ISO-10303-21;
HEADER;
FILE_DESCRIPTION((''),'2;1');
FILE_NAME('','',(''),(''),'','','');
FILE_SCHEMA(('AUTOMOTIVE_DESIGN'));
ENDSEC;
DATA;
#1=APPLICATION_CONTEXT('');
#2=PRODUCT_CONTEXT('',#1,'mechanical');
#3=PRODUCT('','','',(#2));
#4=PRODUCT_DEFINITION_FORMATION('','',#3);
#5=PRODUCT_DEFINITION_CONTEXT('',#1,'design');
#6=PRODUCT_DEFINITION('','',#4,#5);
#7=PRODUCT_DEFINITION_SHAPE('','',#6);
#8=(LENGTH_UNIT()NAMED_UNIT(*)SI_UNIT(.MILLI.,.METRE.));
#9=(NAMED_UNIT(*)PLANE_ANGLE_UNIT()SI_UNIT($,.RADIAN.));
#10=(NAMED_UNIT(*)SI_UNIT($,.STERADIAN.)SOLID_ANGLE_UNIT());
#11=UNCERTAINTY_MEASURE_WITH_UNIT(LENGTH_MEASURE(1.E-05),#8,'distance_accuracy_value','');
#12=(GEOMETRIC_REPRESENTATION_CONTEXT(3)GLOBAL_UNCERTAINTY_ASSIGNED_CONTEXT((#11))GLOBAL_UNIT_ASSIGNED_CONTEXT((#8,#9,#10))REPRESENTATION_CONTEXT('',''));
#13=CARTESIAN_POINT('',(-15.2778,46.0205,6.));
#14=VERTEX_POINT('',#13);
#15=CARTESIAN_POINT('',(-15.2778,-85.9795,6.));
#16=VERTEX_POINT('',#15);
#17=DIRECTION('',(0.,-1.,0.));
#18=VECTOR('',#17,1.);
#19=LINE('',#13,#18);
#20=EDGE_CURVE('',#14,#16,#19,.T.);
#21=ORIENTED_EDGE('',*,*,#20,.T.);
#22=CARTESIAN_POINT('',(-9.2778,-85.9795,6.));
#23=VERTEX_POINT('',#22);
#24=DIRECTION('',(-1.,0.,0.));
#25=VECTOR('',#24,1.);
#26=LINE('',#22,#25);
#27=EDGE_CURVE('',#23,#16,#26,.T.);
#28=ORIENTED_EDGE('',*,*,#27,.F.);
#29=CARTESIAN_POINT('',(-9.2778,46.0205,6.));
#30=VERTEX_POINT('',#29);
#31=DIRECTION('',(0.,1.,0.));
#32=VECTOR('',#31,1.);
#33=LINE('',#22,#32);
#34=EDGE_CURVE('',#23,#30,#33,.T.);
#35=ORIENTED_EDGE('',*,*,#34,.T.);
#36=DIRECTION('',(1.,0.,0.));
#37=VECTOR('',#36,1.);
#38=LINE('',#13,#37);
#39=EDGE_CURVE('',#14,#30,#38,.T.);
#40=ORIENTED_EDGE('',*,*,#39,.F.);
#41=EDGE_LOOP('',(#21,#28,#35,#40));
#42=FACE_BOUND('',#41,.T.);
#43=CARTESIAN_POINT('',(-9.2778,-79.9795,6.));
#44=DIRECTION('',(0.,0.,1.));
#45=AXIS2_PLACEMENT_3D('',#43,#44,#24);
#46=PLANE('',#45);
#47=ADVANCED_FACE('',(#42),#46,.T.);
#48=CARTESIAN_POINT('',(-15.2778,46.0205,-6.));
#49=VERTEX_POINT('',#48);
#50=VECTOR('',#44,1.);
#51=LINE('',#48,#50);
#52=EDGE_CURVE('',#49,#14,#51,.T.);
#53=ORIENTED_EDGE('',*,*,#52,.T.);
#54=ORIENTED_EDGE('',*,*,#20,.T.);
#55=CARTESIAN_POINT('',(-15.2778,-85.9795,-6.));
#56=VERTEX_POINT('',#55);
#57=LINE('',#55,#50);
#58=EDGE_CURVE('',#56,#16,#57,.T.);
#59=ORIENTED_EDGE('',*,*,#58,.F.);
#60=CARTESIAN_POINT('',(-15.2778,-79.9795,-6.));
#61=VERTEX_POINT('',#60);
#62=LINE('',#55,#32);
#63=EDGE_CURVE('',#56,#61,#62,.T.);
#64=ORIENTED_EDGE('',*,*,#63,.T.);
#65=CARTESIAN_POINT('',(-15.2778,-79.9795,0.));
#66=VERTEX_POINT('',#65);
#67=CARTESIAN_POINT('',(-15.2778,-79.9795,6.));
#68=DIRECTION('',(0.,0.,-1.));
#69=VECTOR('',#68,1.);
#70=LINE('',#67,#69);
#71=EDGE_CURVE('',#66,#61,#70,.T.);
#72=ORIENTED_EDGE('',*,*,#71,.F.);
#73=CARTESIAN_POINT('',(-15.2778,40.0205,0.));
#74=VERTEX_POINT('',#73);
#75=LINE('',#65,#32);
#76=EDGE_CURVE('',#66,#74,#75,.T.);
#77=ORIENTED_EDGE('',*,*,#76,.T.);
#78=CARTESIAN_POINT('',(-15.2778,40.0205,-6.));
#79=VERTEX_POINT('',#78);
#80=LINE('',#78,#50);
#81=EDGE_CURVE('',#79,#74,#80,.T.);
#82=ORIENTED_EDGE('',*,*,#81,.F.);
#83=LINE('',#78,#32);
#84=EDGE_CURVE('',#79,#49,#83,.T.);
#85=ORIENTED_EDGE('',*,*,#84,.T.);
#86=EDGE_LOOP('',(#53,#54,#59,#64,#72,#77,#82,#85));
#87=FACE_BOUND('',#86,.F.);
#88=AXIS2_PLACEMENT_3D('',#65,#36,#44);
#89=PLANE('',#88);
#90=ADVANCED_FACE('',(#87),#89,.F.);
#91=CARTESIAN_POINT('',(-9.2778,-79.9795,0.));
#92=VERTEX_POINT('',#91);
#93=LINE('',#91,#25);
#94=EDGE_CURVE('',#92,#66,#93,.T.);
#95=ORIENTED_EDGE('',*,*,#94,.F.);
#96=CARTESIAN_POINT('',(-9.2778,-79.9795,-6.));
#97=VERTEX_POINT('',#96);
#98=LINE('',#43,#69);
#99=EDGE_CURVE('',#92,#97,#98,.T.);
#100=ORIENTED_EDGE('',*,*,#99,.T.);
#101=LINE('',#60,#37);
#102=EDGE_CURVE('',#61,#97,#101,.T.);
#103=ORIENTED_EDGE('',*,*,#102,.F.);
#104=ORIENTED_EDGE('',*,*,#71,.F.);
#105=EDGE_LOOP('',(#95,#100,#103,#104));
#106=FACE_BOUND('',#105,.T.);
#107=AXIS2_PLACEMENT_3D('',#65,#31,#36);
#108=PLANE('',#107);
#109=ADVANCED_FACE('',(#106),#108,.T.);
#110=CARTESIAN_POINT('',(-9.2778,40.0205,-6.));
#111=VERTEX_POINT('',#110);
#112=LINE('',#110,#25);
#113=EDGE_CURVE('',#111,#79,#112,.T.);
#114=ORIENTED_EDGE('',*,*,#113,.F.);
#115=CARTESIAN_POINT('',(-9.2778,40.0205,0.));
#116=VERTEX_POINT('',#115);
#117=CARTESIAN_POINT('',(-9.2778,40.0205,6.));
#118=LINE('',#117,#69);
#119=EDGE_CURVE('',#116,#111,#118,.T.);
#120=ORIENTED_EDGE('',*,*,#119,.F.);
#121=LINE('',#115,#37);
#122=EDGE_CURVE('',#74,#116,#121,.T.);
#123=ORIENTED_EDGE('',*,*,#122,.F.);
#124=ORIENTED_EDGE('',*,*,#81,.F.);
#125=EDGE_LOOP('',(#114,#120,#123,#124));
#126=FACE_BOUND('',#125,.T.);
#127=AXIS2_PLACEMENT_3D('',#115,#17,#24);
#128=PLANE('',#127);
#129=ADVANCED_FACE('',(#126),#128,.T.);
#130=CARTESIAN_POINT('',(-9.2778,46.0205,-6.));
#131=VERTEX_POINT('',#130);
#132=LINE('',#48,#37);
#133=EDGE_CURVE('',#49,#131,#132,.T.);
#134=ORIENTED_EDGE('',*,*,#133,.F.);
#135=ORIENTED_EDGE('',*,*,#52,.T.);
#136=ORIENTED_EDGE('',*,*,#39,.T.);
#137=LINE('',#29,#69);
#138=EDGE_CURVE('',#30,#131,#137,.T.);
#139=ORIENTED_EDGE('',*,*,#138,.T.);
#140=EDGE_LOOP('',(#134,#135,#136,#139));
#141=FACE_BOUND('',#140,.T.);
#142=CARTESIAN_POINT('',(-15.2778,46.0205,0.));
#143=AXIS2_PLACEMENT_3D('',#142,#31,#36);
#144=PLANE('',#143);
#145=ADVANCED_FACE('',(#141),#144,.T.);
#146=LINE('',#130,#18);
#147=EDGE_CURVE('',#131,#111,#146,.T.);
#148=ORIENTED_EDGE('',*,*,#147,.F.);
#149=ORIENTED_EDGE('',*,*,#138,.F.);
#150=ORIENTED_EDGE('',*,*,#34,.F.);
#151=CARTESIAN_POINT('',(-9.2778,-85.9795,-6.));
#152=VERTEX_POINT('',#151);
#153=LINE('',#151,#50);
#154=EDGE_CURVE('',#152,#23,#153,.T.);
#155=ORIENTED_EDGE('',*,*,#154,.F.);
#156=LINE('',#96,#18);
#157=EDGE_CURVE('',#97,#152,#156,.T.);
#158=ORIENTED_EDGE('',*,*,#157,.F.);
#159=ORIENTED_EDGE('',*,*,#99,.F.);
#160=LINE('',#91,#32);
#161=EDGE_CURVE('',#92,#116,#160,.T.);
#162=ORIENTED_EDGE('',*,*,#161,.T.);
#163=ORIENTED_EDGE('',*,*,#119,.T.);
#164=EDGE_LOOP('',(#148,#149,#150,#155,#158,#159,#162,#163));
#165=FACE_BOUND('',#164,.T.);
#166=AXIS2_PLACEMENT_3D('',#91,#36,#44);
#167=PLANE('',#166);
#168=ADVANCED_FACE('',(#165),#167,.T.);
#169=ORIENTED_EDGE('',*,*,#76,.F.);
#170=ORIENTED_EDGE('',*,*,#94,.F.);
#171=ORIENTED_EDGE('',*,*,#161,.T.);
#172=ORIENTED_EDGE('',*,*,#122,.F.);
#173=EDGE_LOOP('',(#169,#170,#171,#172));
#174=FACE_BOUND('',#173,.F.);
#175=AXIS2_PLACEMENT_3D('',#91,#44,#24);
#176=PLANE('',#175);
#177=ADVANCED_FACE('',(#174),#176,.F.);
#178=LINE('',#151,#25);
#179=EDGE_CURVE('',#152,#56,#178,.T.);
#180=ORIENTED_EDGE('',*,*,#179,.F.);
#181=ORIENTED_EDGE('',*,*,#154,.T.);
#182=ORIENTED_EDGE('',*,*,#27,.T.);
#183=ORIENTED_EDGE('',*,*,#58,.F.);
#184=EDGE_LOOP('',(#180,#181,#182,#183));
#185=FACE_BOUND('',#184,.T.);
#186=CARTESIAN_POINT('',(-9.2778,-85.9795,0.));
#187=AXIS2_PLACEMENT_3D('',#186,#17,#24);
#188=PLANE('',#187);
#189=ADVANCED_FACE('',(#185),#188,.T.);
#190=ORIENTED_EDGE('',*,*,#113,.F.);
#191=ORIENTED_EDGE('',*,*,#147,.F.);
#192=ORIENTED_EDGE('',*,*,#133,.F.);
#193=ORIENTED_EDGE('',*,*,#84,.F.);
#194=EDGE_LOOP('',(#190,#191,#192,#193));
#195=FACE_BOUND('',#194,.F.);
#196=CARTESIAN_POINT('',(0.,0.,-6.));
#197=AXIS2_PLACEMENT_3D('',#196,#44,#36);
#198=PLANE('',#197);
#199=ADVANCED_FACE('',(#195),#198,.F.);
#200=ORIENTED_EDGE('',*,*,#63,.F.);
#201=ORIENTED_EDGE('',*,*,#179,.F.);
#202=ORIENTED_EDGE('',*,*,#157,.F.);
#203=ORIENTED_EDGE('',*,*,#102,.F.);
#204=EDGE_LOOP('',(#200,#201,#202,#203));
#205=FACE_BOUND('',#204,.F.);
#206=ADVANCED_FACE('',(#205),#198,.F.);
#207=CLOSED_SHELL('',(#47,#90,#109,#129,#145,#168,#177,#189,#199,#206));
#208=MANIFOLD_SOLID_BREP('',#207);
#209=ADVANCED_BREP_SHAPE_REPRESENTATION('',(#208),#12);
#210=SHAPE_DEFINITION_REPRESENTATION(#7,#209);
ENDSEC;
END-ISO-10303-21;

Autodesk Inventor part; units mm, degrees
ref_plane "YZ Plane" through (0, 0, 0) normal (1, 0, 0) x (0, 1, 0)
ref_plane "XZ Plane" through (0, 0, 0) normal (0, 1, 0) x (-1, 0, 0)
ref_plane "XY Plane" through (0, 0, 0) normal (0, 0, 1) x (1, 0, 0)
sketch "Sketch1" plane through (0, 0, 0) normal (0, 0, 1) x (1, 0, 0)
  line L0 (538.5222, 35.1205) -> (532.3222, 35.1205) projected
  line L1 (538.5222, 52.0205) -> (538.5222, 35.1205) projected
  line L2 (538.5222, 52.0205) -> (246.9222, 52.0205) projected
  line L3 (246.9222, 52.0205) -> (246.9222, 58.0205) projected
  line L4 (246.9222, 58.0205) -> (538.5222, 58.0205) projected
  line L5 (538.5222, 74.9205) -> (538.5222, 58.0205) projected
  line L6 (523.1184, 74.9205) -> (538.5222, 74.9205) projected
  line L7 (517.9222, 77.9205) -> (523.1184, 74.9205) projected
  line L8 (517.9222, 74.9205) -> (517.9222, 77.9205) projected
  arc A0 (515.9222, 74.9205) -> (517.9222, 74.9205) centre (516.9222, 74.9205) ccw projected
  line L9 (515.9222, 77.9205) -> (515.9222, 74.9205) projected
  line L10 (510.7261, 74.9205) -> (515.9222, 77.9205) projected
  line L11 (494.3184, 74.9205) -> (510.7261, 74.9205) projected
  line L12 (489.1222, 77.9205) -> (494.3184, 74.9205) projected
  line L13 (489.1222, 74.9205) -> (489.1222, 77.9205) projected
  arc A1 (487.1222, 74.9205) -> (489.1222, 74.9205) centre (488.1222, 74.9205) ccw projected
  line L14 (487.1222, 77.9205) -> (487.1222, 74.9205) projected
  line L15 (481.9261, 74.9205) -> (487.1222, 77.9205) projected
  line L16 (465.5184, 74.9205) -> (481.9261, 74.9205) projected
  line L17 (460.3222, 77.9205) -> (465.5184, 74.9205) projected
  line L18 (460.3222, 74.9205) -> (460.3222, 77.9205) projected
  arc A2 (458.3222, 74.9205) -> (460.3222, 74.9205) centre (459.3222, 74.9205) ccw projected
  line L19 (458.3222, 77.9205) -> (458.3222, 74.9205) projected
  line L20 (453.1261, 74.9205) -> (458.3222, 77.9205) projected
  line L21 (436.7184, 74.9205) -> (453.1261, 74.9205) projected
  line L22 (431.5222, 77.9205) -> (436.7184, 74.9205) projected
  line L23 (431.5222, 74.9205) -> (431.5222, 77.9205) projected
  arc A3 (429.5222, 74.9205) -> (431.5222, 74.9205) centre (430.5222, 74.9205) ccw projected
  line L24 (429.5222, 77.9205) -> (429.5222, 74.9205) projected
  line L25 (424.3261, 74.9205) -> (429.5222, 77.9205) projected
  line L26 (407.9184, 74.9205) -> (424.3261, 74.9205) projected
  line L27 (402.7222, 77.9205) -> (407.9184, 74.9205) projected
  line L28 (402.7222, 74.9205) -> (402.7222, 77.9205) projected
  arc A4 (400.7222, 74.9205) -> (402.7222, 74.9205) centre (401.7222, 74.9205) ccw projected
  line L29 (400.7222, 77.9205) -> (400.7222, 74.9205) projected
  line L30 (395.5261, 74.9205) -> (400.7222, 77.9205) projected
  line L31 (379.1184, 74.9205) -> (395.5261, 74.9205) projected
  line L32 (373.9222, 77.9205) -> (379.1184, 74.9205) projected
  line L33 (373.9222, 74.9205) -> (373.9222, 77.9205) projected
  arc A5 (371.9222, 74.9205) -> (373.9222, 74.9205) centre (372.9222, 74.9205) ccw projected
  line L34 (371.9222, 77.9205) -> (371.9222, 74.9205) projected
  line L35 (366.7261, 74.9205) -> (371.9222, 77.9205) projected
  line L36 (350.3184, 74.9205) -> (366.7261, 74.9205) projected
  line L37 (345.1222, 77.9205) -> (350.3184, 74.9205) projected
  line L38 (345.1222, 74.9205) -> (345.1222, 77.9205) projected
  arc A6 (343.1222, 74.9205) -> (345.1222, 74.9205) centre (344.1222, 74.9205) ccw projected
  line L39 (343.1222, 77.9205) -> (343.1222, 74.9205) projected
  line L40 (337.9261, 74.9205) -> (343.1222, 77.9205) projected
  line L41 (321.5184, 74.9205) -> (337.9261, 74.9205) projected
  line L42 (316.3222, 77.9205) -> (321.5184, 74.9205) projected
  line L43 (316.3222, 74.9205) -> (316.3222, 77.9205) projected
  arc A7 (314.3222, 74.9205) -> (316.3222, 74.9205) centre (315.3222, 74.9205) ccw projected
  line L44 (314.3222, 77.9205) -> (314.3222, 74.9205) projected
  line L45 (309.1261, 74.9205) -> (314.3222, 77.9205) projected
  line L46 (292.7184, 74.9205) -> (309.1261, 74.9205) projected
  line L47 (287.5222, 77.9205) -> (292.7184, 74.9205) projected
  line L48 (287.5222, 74.9205) -> (287.5222, 77.9205) projected
  arc A8 (285.5222, 74.9205) -> (287.5222, 74.9205) centre (286.5222, 74.9205) ccw projected
  line L49 (285.5222, 77.9205) -> (285.5222, 74.9205) projected
  line L50 (280.3261, 74.9205) -> (285.5222, 77.9205) projected
  line L51 (263.9184, 74.9205) -> (280.3261, 74.9205) projected
  line L52 (258.7222, 77.9205) -> (263.9184, 74.9205) projected
  line L53 (258.7222, 74.9205) -> (258.7222, 77.9205) projected
  arc A9 (256.7222, 74.9205) -> (258.7222, 74.9205) centre (257.7222, 74.9205) ccw projected
  line L54 (256.7222, 77.9205) -> (256.7222, 74.9205) projected
  line L55 (251.5261, 74.9205) -> (256.7222, 77.9205) projected
  line L56 (235.1184, 74.9205) -> (251.5261, 74.9205) projected
  line L57 (229.9222, 77.9205) -> (235.1184, 74.9205) projected
  line L58 (229.9222, 74.9205) -> (229.9222, 77.9205) projected
  arc A10 (227.9222, 74.9205) -> (229.9222, 74.9205) centre (228.9222, 74.9205) ccw projected
  line L59 (227.9222, 77.9205) -> (227.9222, 74.9205) projected
  line L60 (222.7261, 74.9205) -> (227.9222, 77.9205) projected
  line L61 (206.3184, 74.9205) -> (222.7261, 74.9205) projected
  line L62 (201.1222, 77.9205) -> (206.3184, 74.9205) projected
  line L63 (201.1222, 74.9205) -> (201.1222, 77.9205) projected
  arc A11 (199.1222, 74.9205) -> (201.1222, 74.9205) centre (200.1222, 74.9205) ccw projected
  line L64 (199.1222, 77.9205) -> (199.1222, 74.9205) projected
  line L65 (193.9261, 74.9205) -> (199.1222, 77.9205) projected
  line L66 (177.5184, 74.9205) -> (193.9261, 74.9205) projected
  line L67 (172.3222, 77.9205) -> (177.5184, 74.9205) projected
  line L68 (172.3222, 74.9205) -> (172.3222, 77.9205) projected
  arc A12 (170.3222, 74.9205) -> (172.3222, 74.9205) centre (171.3222, 74.9205) ccw projected
  line L69 (170.3222, 77.9205) -> (170.3222, 74.9205) projected
  line L70 (165.1261, 74.9205) -> (170.3222, 77.9205) projected
  line L71 (148.7184, 74.9205) -> (165.1261, 74.9205) projected
  line L72 (143.5222, 77.9205) -> (148.7184, 74.9205) projected
  line L73 (143.5222, 74.9205) -> (143.5222, 77.9205) projected
  arc A13 (141.5222, 74.9205) -> (143.5222, 74.9205) centre (142.5222, 74.9205) ccw projected
  line L74 (141.5222, 77.9205) -> (141.5222, 74.9205) projected
  line L75 (136.3261, 74.9205) -> (141.5222, 77.9205) projected
  line L76 (119.9184, 74.9205) -> (136.3261, 74.9205) projected
  line L77 (114.7222, 77.9205) -> (119.9184, 74.9205) projected
  line L78 (114.7222, 74.9205) -> (114.7222, 77.9205) projected
  arc A14 (112.7222, 74.9205) -> (114.7222, 74.9205) centre (113.7222, 74.9205) ccw projected
  line L79 (112.7222, 77.9205) -> (112.7222, 74.9205) projected
  line L80 (107.5261, 74.9205) -> (112.7222, 77.9205) projected
  line L81 (91.1184, 74.9205) -> (107.5261, 74.9205) projected
  line L82 (85.9222, 77.9205) -> (91.1184, 74.9205) projected
  line L83 (85.9222, 74.9205) -> (85.9222, 77.9205) projected
  arc A15 (83.9222, 74.9205) -> (85.9222, 74.9205) centre (84.9222, 74.9205) ccw projected
  line L84 (83.9222, 77.9205) -> (83.9222, 74.9205) projected
  line L85 (78.7261, 74.9205) -> (83.9222, 77.9205) projected
  line L86 (62.3184, 74.9205) -> (78.7261, 74.9205) projected
  line L87 (57.1222, 77.9205) -> (62.3184, 74.9205) projected
  line L88 (57.1222, 74.9205) -> (57.1222, 77.9205) projected
  arc A16 (55.1222, 74.9205) -> (57.1222, 74.9205) centre (56.1222, 74.9205) ccw projected
  line L89 (55.1222, 77.9205) -> (55.1222, 74.9205) projected
  line L90 (49.9261, 74.9205) -> (55.1222, 77.9205) projected
  line L91 (33.5184, 74.9205) -> (49.9261, 74.9205) projected
  line L92 (28.3222, 77.9205) -> (33.5184, 74.9205) projected
  line L93 (28.3222, 74.9205) -> (28.3222, 77.9205) projected
  arc A17 (26.3222, 74.9205) -> (28.3222, 74.9205) centre (27.3222, 74.9205) ccw projected
  line L94 (26.3222, 77.9205) -> (26.3222, 74.9205) projected
  line L95 (21.1261, 74.9205) -> (26.3222, 77.9205) projected
  line L96 (4.7184, 74.9205) -> (21.1261, 74.9205) projected
  line L97 (-0.4778, 77.9205) -> (4.7184, 74.9205) projected
  line L98 (-0.4778, 74.9205) -> (-0.4778, 77.9205) projected
  arc A18 (-2.4778, 74.9205) -> (-0.4778, 74.9205) centre (-1.4778, 74.9205) ccw projected
  line L99 (-2.4778, 77.9205) -> (-2.4778, 74.9205) projected
  line L100 (-7.6739, 74.9205) -> (-2.4778, 77.9205) projected
  line L101 (-24.0816, 74.9205) -> (-7.6739, 74.9205) projected
  line L102 (-29.2778, 77.9205) -> (-24.0816, 74.9205) projected
  line L103 (-29.2778, 74.9205) -> (-29.2778, 77.9205) projected
  arc A19 (-31.2778, 74.9205) -> (-29.2778, 74.9205) centre (-30.2778, 74.9205) ccw projected
  line L104 (-31.2778, 77.9205) -> (-31.2778, 74.9205) projected
  line L105 (-36.4739, 74.9205) -> (-31.2778, 77.9205) projected
  line L106 (-36.4739, 74.9205) -> (-44.6778, 74.9205) projected
  line L107 (-44.6778, 35.1205) -> (-44.6778, 74.9205) projected
  line L108 (-22.0739, 35.1205) -> (-44.6778, 35.1205) projected
  line L109 (-16.8778, 32.1205) -> (-22.0739, 35.1205) projected
  line L110 (-16.8778, 35.1205) -> (-16.8778, 32.1205) projected
  arc A20 (-14.8778, 35.1205) -> (-16.8778, 35.1205) centre (-15.8778, 35.1205) ccw projected
  line L111 (-14.8778, 32.1205) -> (-14.8778, 35.1205) projected
  line L112 (-9.6816, 35.1205) -> (-14.8778, 32.1205) projected
  line L113 (6.7261, 35.1205) -> (-9.6816, 35.1205) projected
  line L114 (11.9222, 32.1205) -> (6.7261, 35.1205) projected
  line L115 (11.9222, 35.1205) -> (11.9222, 32.1205) projected
  arc A21 (13.9222, 35.1205) -> (11.9222, 35.1205) centre (12.9222, 35.1205) ccw projected
  line L116 (13.9222, 32.1205) -> (13.9222, 35.1205) projected
  line L117 (19.1184, 35.1205) -> (13.9222, 32.1205) projected
  line L118 (35.5261, 35.1205) -> (19.1184, 35.1205) projected
  line L119 (40.7222, 32.1205) -> (35.5261, 35.1205) projected
  line L120 (40.7222, 35.1205) -> (40.7222, 32.1205) projected
  arc A22 (42.7222, 35.1205) -> (40.7222, 35.1205) centre (41.7222, 35.1205) ccw projected
  line L121 (42.7222, 32.1205) -> (42.7222, 35.1205) projected
  line L122 (47.9184, 35.1205) -> (42.7222, 32.1205) projected
  line L123 (64.3261, 35.1205) -> (47.9184, 35.1205) projected
  line L124 (69.5222, 32.1205) -> (64.3261, 35.1205) projected
  line L125 (69.5222, 35.1205) -> (69.5222, 32.1205) projected
  arc A23 (71.5222, 35.1205) -> (69.5222, 35.1205) centre (70.5222, 35.1205) ccw projected
  line L126 (71.5222, 32.1205) -> (71.5222, 35.1205) projected
  line L127 (76.7184, 35.1205) -> (71.5222, 32.1205) projected
  line L128 (93.1261, 35.1205) -> (76.7184, 35.1205) projected
  line L129 (98.3222, 32.1205) -> (93.1261, 35.1205) projected
  line L130 (98.3222, 35.1205) -> (98.3222, 32.1205) projected
  arc A24 (100.3222, 35.1205) -> (98.3222, 35.1205) centre (99.3222, 35.1205) ccw projected
  line L131 (100.3222, 32.1205) -> (100.3222, 35.1205) projected
  line L132 (105.5184, 35.1205) -> (100.3222, 32.1205) projected
  line L133 (121.9261, 35.1205) -> (105.5184, 35.1205) projected
  line L134 (127.1222, 32.1205) -> (121.9261, 35.1205) projected
  line L135 (127.1222, 35.1205) -> (127.1222, 32.1205) projected
  arc A25 (129.1222, 35.1205) -> (127.1222, 35.1205) centre (128.1222, 35.1205) ccw projected
  line L136 (129.1222, 32.1205) -> (129.1222, 35.1205) projected
  line L137 (134.3184, 35.1205) -> (129.1222, 32.1205) projected
  line L138 (150.7261, 35.1205) -> (134.3184, 35.1205) projected
  line L139 (155.9222, 32.1205) -> (150.7261, 35.1205) projected
  line L140 (155.9222, 35.1205) -> (155.9222, 32.1205) projected
  arc A26 (157.9222, 35.1205) -> (155.9222, 35.1205) centre (156.9222, 35.1205) ccw projected
  line L141 (157.9222, 32.1205) -> (157.9222, 35.1205) projected
  line L142 (163.1184, 35.1205) -> (157.9222, 32.1205) projected
  line L143 (179.5261, 35.1205) -> (163.1184, 35.1205) projected
  line L144 (184.7222, 32.1205) -> (179.5261, 35.1205) projected
  line L145 (184.7222, 35.1205) -> (184.7222, 32.1205) projected
  arc A27 (186.7222, 35.1205) -> (184.7222, 35.1205) centre (185.7222, 35.1205) ccw projected
  line L146 (186.7222, 32.1205) -> (186.7222, 35.1205) projected
  line L147 (191.9184, 35.1205) -> (186.7222, 32.1205) projected
  line L148 (208.3261, 35.1205) -> (191.9184, 35.1205) projected
  line L149 (213.5222, 32.1205) -> (208.3261, 35.1205) projected
  line L150 (213.5222, 35.1205) -> (213.5222, 32.1205) projected
  arc A28 (215.5222, 35.1205) -> (213.5222, 35.1205) centre (214.5222, 35.1205) ccw projected
  line L151 (215.5222, 32.1205) -> (215.5222, 35.1205) projected
  line L152 (220.7184, 35.1205) -> (215.5222, 32.1205) projected
  line L153 (237.1261, 35.1205) -> (220.7184, 35.1205) projected
  line L154 (242.3222, 32.1205) -> (237.1261, 35.1205) projected
  line L155 (242.3222, 35.1205) -> (242.3222, 32.1205) projected
  arc A29 (244.3222, 35.1205) -> (242.3222, 35.1205) centre (243.3222, 35.1205) ccw projected
  line L156 (244.3222, 32.1205) -> (244.3222, 35.1205) projected
  line L157 (249.5184, 35.1205) -> (244.3222, 32.1205) projected
  line L158 (265.9261, 35.1205) -> (249.5184, 35.1205) projected
  line L159 (271.1222, 32.1205) -> (265.9261, 35.1205) projected
  line L160 (271.1222, 35.1205) -> (271.1222, 32.1205) projected
  arc A30 (273.1222, 35.1205) -> (271.1222, 35.1205) centre (272.1222, 35.1205) ccw projected
  line L161 (273.1222, 32.1205) -> (273.1222, 35.1205) projected
  line L162 (278.3184, 35.1205) -> (273.1222, 32.1205) projected
  line L163 (294.7261, 35.1205) -> (278.3184, 35.1205) projected
  line L164 (299.9222, 32.1205) -> (294.7261, 35.1205) projected
  line L165 (299.9222, 35.1205) -> (299.9222, 32.1205) projected
  arc A31 (301.9222, 35.1205) -> (299.9222, 35.1205) centre (300.9222, 35.1205) ccw projected
  line L166 (301.9222, 32.1205) -> (301.9222, 35.1205) projected
  line L167 (307.1184, 35.1205) -> (301.9222, 32.1205) projected
  line L168 (323.5261, 35.1205) -> (307.1184, 35.1205) projected
  line L169 (328.7222, 32.1205) -> (323.5261, 35.1205) projected
  line L170 (328.7222, 35.1205) -> (328.7222, 32.1205) projected
  arc A32 (330.7222, 35.1205) -> (328.7222, 35.1205) centre (329.7222, 35.1205) ccw projected
  line L171 (330.7222, 32.1205) -> (330.7222, 35.1205) projected
  line L172 (335.9184, 35.1205) -> (330.7222, 32.1205) projected
  line L173 (352.3261, 35.1205) -> (335.9184, 35.1205) projected
  line L174 (357.5222, 32.1205) -> (352.3261, 35.1205) projected
  line L175 (357.5222, 35.1205) -> (357.5222, 32.1205) projected
  arc A33 (359.5222, 35.1205) -> (357.5222, 35.1205) centre (358.5222, 35.1205) ccw projected
  line L176 (359.5222, 32.1205) -> (359.5222, 35.1205) projected
  line L177 (364.7184, 35.1205) -> (359.5222, 32.1205) projected
  line L178 (381.1261, 35.1205) -> (364.7184, 35.1205) projected
  line L179 (386.3222, 32.1205) -> (381.1261, 35.1205) projected
  line L180 (386.3222, 35.1205) -> (386.3222, 32.1205) projected
  arc A34 (388.3222, 35.1205) -> (386.3222, 35.1205) centre (387.3222, 35.1205) ccw projected
  line L181 (388.3222, 32.1205) -> (388.3222, 35.1205) projected
  line L182 (393.5184, 35.1205) -> (388.3222, 32.1205) projected
  line L183 (409.9261, 35.1205) -> (393.5184, 35.1205) projected
  line L184 (415.1222, 32.1205) -> (409.9261, 35.1205) projected
  line L185 (415.1222, 35.1205) -> (415.1222, 32.1205) projected
  arc A35 (417.1222, 35.1205) -> (415.1222, 35.1205) centre (416.1222, 35.1205) ccw projected
  line L186 (417.1222, 32.1205) -> (417.1222, 35.1205) projected
  line L187 (422.3184, 35.1205) -> (417.1222, 32.1205) projected
  line L188 (438.7261, 35.1205) -> (422.3184, 35.1205) projected
  line L189 (443.9222, 32.1205) -> (438.7261, 35.1205) projected
  line L190 (443.9222, 35.1205) -> (443.9222, 32.1205) projected
  arc A36 (445.9222, 35.1205) -> (443.9222, 35.1205) centre (444.9222, 35.1205) ccw projected
  line L191 (445.9222, 32.1205) -> (445.9222, 35.1205) projected
  line L192 (451.1184, 35.1205) -> (445.9222, 32.1205) projected
  line L193 (467.5261, 35.1205) -> (451.1184, 35.1205) projected
  line L194 (472.7222, 32.1205) -> (467.5261, 35.1205) projected
  line L195 (472.7222, 35.1205) -> (472.7222, 32.1205) projected
  arc A37 (474.7222, 35.1205) -> (472.7222, 35.1205) centre (473.7222, 35.1205) ccw projected
  line L196 (474.7222, 32.1205) -> (474.7222, 35.1205) projected
  line L197 (479.9184, 35.1205) -> (474.7222, 32.1205) projected
  line L198 (496.3261, 35.1205) -> (479.9184, 35.1205) projected
  line L199 (501.5222, 32.1205) -> (496.3261, 35.1205) projected
  line L200 (501.5222, 35.1205) -> (501.5222, 32.1205) projected
  arc A38 (503.5222, 35.1205) -> (501.5222, 35.1205) centre (502.5222, 35.1205) ccw projected
  line L201 (503.5222, 32.1205) -> (503.5222, 35.1205) projected
  line L202 (508.7184, 35.1205) -> (503.5222, 32.1205) projected
  line L203 (525.1261, 35.1205) -> (508.7184, 35.1205) projected
  line L204 (530.3222, 32.1205) -> (525.1261, 35.1205) projected
  line L205 (530.3222, 35.1205) -> (530.3222, 32.1205) projected
  arc A39 (532.3222, 35.1205) -> (530.3222, 35.1205) centre (531.3222, 35.1205) ccw projected
  line L206 (-15.2778, 46.0205) -> (-9.2778, 46.0205) projected
  line L207 (-9.2778, 46.0205) -> (-9.2778, 40.0205) projected
  line L208 (-9.2778, 40.0205) -> (-15.2778, 40.0205) projected
  line L209 (-15.2778, 40.0205) -> (-15.2778, 46.0205) projected
  line L210 (-15.2778, 64.0205) -> (-15.2778, 70.0205) projected
  line L211 (-15.2778, 70.0205) -> (-9.2778, 70.0205) projected
  line L212 (-9.2778, 70.0205) -> (-9.2778, 64.0205) projected
  line L213 (-9.2778, 64.0205) -> (-15.2778, 64.0205) projected
  line L214 (42.3222, 46.0205) -> (48.3222, 46.0205) projected
  line L215 (48.3222, 46.0205) -> (48.3222, 40.0205) projected
  line L216 (48.3222, 40.0205) -> (42.3222, 40.0205) projected
  line L217 (42.3222, 40.0205) -> (42.3222, 46.0205) projected
  line L218 (42.3222, 64.0205) -> (42.3222, 70.0205) projected
  line L219 (42.3222, 70.0205) -> (48.3222, 70.0205) projected
  line L220 (48.3222, 70.0205) -> (48.3222, 64.0205) projected
  line L221 (48.3222, 64.0205) -> (42.3222, 64.0205) projected
  line L222 (99.9222, 46.0205) -> (105.9222, 46.0205) projected
  line L223 (105.9222, 46.0205) -> (105.9222, 40.0205) projected
  line L224 (105.9222, 40.0205) -> (99.9222, 40.0205) projected
  line L225 (99.9222, 40.0205) -> (99.9222, 46.0205) projected
  line L226 (99.9222, 64.0205) -> (99.9222, 70.0205) projected
  line L227 (99.9222, 70.0205) -> (105.9222, 70.0205) projected
  line L228 (105.9222, 70.0205) -> (105.9222, 64.0205) projected
  line L229 (105.9222, 64.0205) -> (99.9222, 64.0205) projected
  line L230 (157.5222, 46.0205) -> (163.5222, 46.0205) projected
  line L231 (163.5222, 46.0205) -> (163.5222, 40.0205) projected
  line L232 (163.5222, 40.0205) -> (157.5222, 40.0205) projected
  line L233 (157.5222, 40.0205) -> (157.5222, 46.0205) projected
  line L234 (157.5222, 64.0205) -> (157.5222, 70.0205) projected
  line L235 (157.5222, 70.0205) -> (163.5222, 70.0205) projected
  line L236 (163.5222, 70.0205) -> (163.5222, 64.0205) projected
  line L237 (163.5222, 64.0205) -> (157.5222, 64.0205) projected
  line L238 (215.1222, 46.0205) -> (221.1222, 46.0205) projected
  line L239 (221.1222, 46.0205) -> (221.1222, 40.0205) projected
  line L240 (221.1222, 40.0205) -> (215.1222, 40.0205) projected
  line L241 (215.1222, 40.0205) -> (215.1222, 46.0205) projected
  line L242 (215.1222, 64.0205) -> (215.1222, 70.0205) projected
  line L243 (215.1222, 70.0205) -> (221.1222, 70.0205) projected
  line L244 (221.1222, 70.0205) -> (221.1222, 64.0205) projected
  line L245 (221.1222, 64.0205) -> (215.1222, 64.0205) projected
  line L246 (272.7222, 46.0205) -> (278.7222, 46.0205) projected
  line L247 (278.7222, 46.0205) -> (278.7222, 40.0205) projected
  line L248 (278.7222, 40.0205) -> (272.7222, 40.0205) projected
  line L249 (272.7222, 40.0205) -> (272.7222, 46.0205) projected
  line L250 (272.7222, 64.0205) -> (272.7222, 70.0205) projected
  line L251 (272.7222, 70.0205) -> (278.7222, 70.0205) projected
  line L252 (278.7222, 70.0205) -> (278.7222, 64.0205) projected
  line L253 (278.7222, 64.0205) -> (272.7222, 64.0205) projected
  line L254 (330.3222, 46.0205) -> (336.3222, 46.0205) projected
  line L255 (336.3222, 46.0205) -> (336.3222, 40.0205) projected
  line L256 (336.3222, 40.0205) -> (330.3222, 40.0205) projected
  line L257 (330.3222, 40.0205) -> (330.3222, 46.0205) projected
  line L258 (330.3222, 64.0205) -> (330.3222, 70.0205) projected
  line L259 (330.3222, 70.0205) -> (336.3222, 70.0205) projected
  line L260 (336.3222, 70.0205) -> (336.3222, 64.0205) projected
  line L261 (336.3222, 64.0205) -> (330.3222, 64.0205) projected
  line L262 (387.9222, 46.0205) -> (393.9222, 46.0205) projected
  line L263 (393.9222, 46.0205) -> (393.9222, 40.0205) projected
  line L264 (393.9222, 40.0205) -> (387.9222, 40.0205) projected
  line L265 (387.9222, 40.0205) -> (387.9222, 46.0205) projected
  line L266 (387.9222, 64.0205) -> (387.9222, 70.0205) projected
  line L267 (387.9222, 70.0205) -> (393.9222, 70.0205) projected
  line L268 (393.9222, 70.0205) -> (393.9222, 64.0205) projected
  line L269 (393.9222, 64.0205) -> (387.9222, 64.0205) projected
  line L270 (445.5222, 46.0205) -> (451.5222, 46.0205) projected
  line L271 (451.5222, 46.0205) -> (451.5222, 40.0205) projected
  line L272 (451.5222, 40.0205) -> (445.5222, 40.0205) projected
  line L273 (445.5222, 40.0205) -> (445.5222, 46.0205) projected
  line L274 (445.5222, 64.0205) -> (445.5222, 70.0205) projected
  line L275 (445.5222, 70.0205) -> (451.5222, 70.0205) projected
  line L276 (451.5222, 70.0205) -> (451.5222, 64.0205) projected
  line L277 (451.5222, 64.0205) -> (445.5222, 64.0205) projected
  line L278 (503.1222, 46.0205) -> (509.1222, 46.0205) projected
  line L279 (509.1222, 46.0205) -> (509.1222, 40.0205) projected
  line L280 (509.1222, 40.0205) -> (503.1222, 40.0205) projected
  line L281 (503.1222, 40.0205) -> (503.1222, 46.0205) projected
  line L282 (503.1222, 64.0205) -> (503.1222, 70.0205) projected
  line L283 (503.1222, 70.0205) -> (509.1222, 70.0205) projected
  line L284 (509.1222, 70.0205) -> (509.1222, 64.0205) projected
  line L285 (509.1222, 64.0205) -> (503.1222, 64.0205) projected
  line L286 (538.5222, -114.8795) -> (532.3222, -114.8795) projected
  line L287 (538.5222, -97.9795) -> (538.5222, -114.8795) projected
  line L288 (538.5222, -97.9795) -> (246.9222, -97.9795) projected
  line L289 (246.9222, -97.9795) -> (246.9222, -91.9795) projected
  line L290 (246.9222, -91.9795) -> (538.5222, -91.9795) projected
  line L291 (538.5222, -75.0795) -> (538.5222, -91.9795) projected
  line L292 (523.1184, -75.0795) -> (538.5222, -75.0795) projected
  line L293 (517.9222, -72.0795) -> (523.1184, -75.0795) projected
  line L294 (517.9222, -75.0795) -> (517.9222, -72.0795) projected
  arc A40 (515.9222, -75.0795) -> (517.9222, -75.0795) centre (516.9222, -75.0795) ccw projected
  line L295 (515.9222, -72.0795) -> (515.9222, -75.0795) projected
  line L296 (510.7261, -75.0795) -> (515.9222, -72.0795) projected
  line L297 (494.3184, -75.0795) -> (510.7261, -75.0795) projected
  line L298 (489.1222, -72.0795) -> (494.3184, -75.0795) projected
  line L299 (489.1222, -75.0795) -> (489.1222, -72.0795) projected
  arc A41 (487.1222, -75.0795) -> (489.1222, -75.0795) centre (488.1222, -75.0795) ccw projected
  line L300 (487.1222, -72.0795) -> (487.1222, -75.0795) projected
  line L301 (481.9261, -75.0795) -> (487.1222, -72.0795) projected
  line L302 (465.5184, -75.0795) -> (481.9261, -75.0795) projected
  line L303 (460.3222, -72.0795) -> (465.5184, -75.0795) projected
  line L304 (460.3222, -75.0795) -> (460.3222, -72.0795) projected
  arc A42 (458.3222, -75.0795) -> (460.3222, -75.0795) centre (459.3222, -75.0795) ccw projected
  line L305 (458.3222, -72.0795) -> (458.3222, -75.0795) projected
  line L306 (453.1261, -75.0795) -> (458.3222, -72.0795) projected
  line L307 (436.7184, -75.0795) -> (453.1261, -75.0795) projected
  line L308 (431.5222, -72.0795) -> (436.7184, -75.0795) projected
  line L309 (431.5222, -75.0795) -> (431.5222, -72.0795) projected
  arc A43 (429.5222, -75.0795) -> (431.5222, -75.0795) centre (430.5222, -75.0795) ccw projected
  line L310 (429.5222, -72.0795) -> (429.5222, -75.0795) projected
  line L311 (424.3261, -75.0795) -> (429.5222, -72.0795) projected
  line L312 (407.9184, -75.0795) -> (424.3261, -75.0795) projected
  line L313 (402.7222, -72.0795) -> (407.9184, -75.0795) projected
  line L314 (402.7222, -75.0795) -> (402.7222, -72.0795) projected
  arc A44 (400.7222, -75.0795) -> (402.7222, -75.0795) centre (401.7222, -75.0795) ccw projected
  line L315 (400.7222, -72.0795) -> (400.7222, -75.0795) projected
  line L316 (395.5261, -75.0795) -> (400.7222, -72.0795) projected
  line L317 (379.1184, -75.0795) -> (395.5261, -75.0795) projected
  line L318 (373.9222, -72.0795) -> (379.1184, -75.0795) projected
  line L319 (373.9222, -75.0795) -> (373.9222, -72.0795) projected
  arc A45 (371.9222, -75.0795) -> (373.9222, -75.0795) centre (372.9222, -75.0795) ccw projected
  line L320 (371.9222, -72.0795) -> (371.9222, -75.0795) projected
  line L321 (366.7261, -75.0795) -> (371.9222, -72.0795) projected
  line L322 (350.3184, -75.0795) -> (366.7261, -75.0795) projected
  line L323 (345.1222, -72.0795) -> (350.3184, -75.0795) projected
  line L324 (345.1222, -75.0795) -> (345.1222, -72.0795) projected
  arc A46 (343.1222, -75.0795) -> (345.1222, -75.0795) centre (344.1222, -75.0795) ccw projected
  line L325 (343.1222, -72.0795) -> (343.1222, -75.0795) projected
  line L326 (337.9261, -75.0795) -> (343.1222, -72.0795) projected
  line L327 (321.5184, -75.0795) -> (337.9261, -75.0795) projected
  line L328 (316.3222, -72.0795) -> (321.5184, -75.0795) projected
  line L329 (316.3222, -75.0795) -> (316.3222, -72.0795) projected
  arc A47 (314.3222, -75.0795) -> (316.3222, -75.0795) centre (315.3222, -75.0795) ccw projected
  line L330 (314.3222, -72.0795) -> (314.3222, -75.0795) projected
  line L331 (309.1261, -75.0795) -> (314.3222, -72.0795) projected
  line L332 (292.7184, -75.0795) -> (309.1261, -75.0795) projected
  line L333 (287.5222, -72.0795) -> (292.7184, -75.0795) projected
  line L334 (287.5222, -75.0795) -> (287.5222, -72.0795) projected
  arc A48 (285.5222, -75.0795) -> (287.5222, -75.0795) centre (286.5222, -75.0795) ccw projected
  line L335 (285.5222, -72.0795) -> (285.5222, -75.0795) projected
  line L336 (280.3261, -75.0795) -> (285.5222, -72.0795) projected
  line L337 (263.9184, -75.0795) -> (280.3261, -75.0795) projected
  line L338 (258.7222, -72.0795) -> (263.9184, -75.0795) projected
  line L339 (258.7222, -75.0795) -> (258.7222, -72.0795) projected
  arc A49 (256.7222, -75.0795) -> (258.7222, -75.0795) centre (257.7222, -75.0795) ccw projected
  line L340 (256.7222, -72.0795) -> (256.7222, -75.0795) projected
  line L341 (251.5261, -75.0795) -> (256.7222, -72.0795) projected
  line L342 (235.1184, -75.0795) -> (251.5261, -75.0795) projected
  line L343 (229.9222, -72.0795) -> (235.1184, -75.0795) projected
  line L344 (229.9222, -75.0795) -> (229.9222, -72.0795) projected
  arc A50 (227.9222, -75.0795) -> (229.9222, -75.0795) centre (228.9222, -75.0795) ccw projected
  line L345 (227.9222, -72.0795) -> (227.9222, -75.0795) projected
  line L346 (222.7261, -75.0795) -> (227.9222, -72.0795) projected
  line L347 (206.3184, -75.0795) -> (222.7261, -75.0795) projected
  line L348 (201.1222, -72.0795) -> (206.3184, -75.0795) projected
  line L349 (201.1222, -75.0795) -> (201.1222, -72.0795) projected
  arc A51 (199.1222, -75.0795) -> (201.1222, -75.0795) centre (200.1222, -75.0795) ccw projected
  line L350 (199.1222, -72.0795) -> (199.1222, -75.0795) projected
  line L351 (193.9261, -75.0795) -> (199.1222, -72.0795) projected
  line L352 (177.5184, -75.0795) -> (193.9261, -75.0795) projected
  line L353 (172.3222, -72.0795) -> (177.5184, -75.0795) projected
  line L354 (172.3222, -75.0795) -> (172.3222, -72.0795) projected
  arc A52 (170.3222, -75.0795) -> (172.3222, -75.0795) centre (171.3222, -75.0795) ccw projected
  line L355 (170.3222, -72.0795) -> (170.3222, -75.0795) projected
  line L356 (165.1261, -75.0795) -> (170.3222, -72.0795) projected
  line L357 (148.7184, -75.0795) -> (165.1261, -75.0795) projected
  line L358 (143.5222, -72.0795) -> (148.7184, -75.0795) projected
  line L359 (143.5222, -75.0795) -> (143.5222, -72.0795) projected
  arc A53 (141.5222, -75.0795) -> (143.5222, -75.0795) centre (142.5222, -75.0795) ccw projected
  line L360 (141.5222, -72.0795) -> (141.5222, -75.0795) projected
  line L361 (136.3261, -75.0795) -> (141.5222, -72.0795) projected
  line L362 (119.9184, -75.0795) -> (136.3261, -75.0795) projected
  line L363 (114.7222, -72.0795) -> (119.9184, -75.0795) projected
  line L364 (114.7222, -75.0795) -> (114.7222, -72.0795) projected
  arc A54 (112.7222, -75.0795) -> (114.7222, -75.0795) centre (113.7222, -75.0795) ccw projected
  line L365 (112.7222, -72.0795) -> (112.7222, -75.0795) projected
  line L366 (107.5261, -75.0795) -> (112.7222, -72.0795) projected
  line L367 (91.1184, -75.0795) -> (107.5261, -75.0795) projected
  line L368 (85.9222, -72.0795) -> (91.1184, -75.0795) projected
  line L369 (85.9222, -75.0795) -> (85.9222, -72.0795) projected
  arc A55 (83.9222, -75.0795) -> (85.9222, -75.0795) centre (84.9222, -75.0795) ccw projected
  line L370 (83.9222, -72.0795) -> (83.9222, -75.0795) projected
  line L371 (78.7261, -75.0795) -> (83.9222, -72.0795) projected
  line L372 (62.3184, -75.0795) -> (78.7261, -75.0795) projected
  line L373 (57.1222, -72.0795) -> (62.3184, -75.0795) projected
  line L374 (57.1222, -75.0795) -> (57.1222, -72.0795) projected
  arc A56 (55.1222, -75.0795) -> (57.1222, -75.0795) centre (56.1222, -75.0795) ccw projected
  line L375 (55.1222, -72.0795) -> (55.1222, -75.0795) projected
  line L376 (49.9261, -75.0795) -> (55.1222, -72.0795) projected
  line L377 (33.5184, -75.0795) -> (49.9261, -75.0795) projected
  line L378 (28.3222, -72.0795) -> (33.5184, -75.0795) projected
  line L379 (28.3222, -75.0795) -> (28.3222, -72.0795) projected
  arc A57 (26.3222, -75.0795) -> (28.3222, -75.0795) centre (27.3222, -75.0795) ccw projected
  line L380 (26.3222, -72.0795) -> (26.3222, -75.0795) projected
  line L381 (21.1261, -75.0795) -> (26.3222, -72.0795) projected
  line L382 (4.7184, -75.0795) -> (21.1261, -75.0795) projected
  line L383 (-0.4778, -72.0795) -> (4.7184, -75.0795) projected
  line L384 (-0.4778, -75.0795) -> (-0.4778, -72.0795) projected
  arc A58 (-2.4778, -75.0795) -> (-0.4778, -75.0795) centre (-1.4778, -75.0795) ccw projected
  line L385 (-2.4778, -72.0795) -> (-2.4778, -75.0795) projected
  line L386 (-7.6739, -75.0795) -> (-2.4778, -72.0795) projected
  line L387 (-24.0816, -75.0795) -> (-7.6739, -75.0795) projected
  line L388 (-29.2778, -72.0795) -> (-24.0816, -75.0795) projected
  line L389 (-29.2778, -75.0795) -> (-29.2778, -72.0795) projected
  arc A59 (-31.2778, -75.0795) -> (-29.2778, -75.0795) centre (-30.2778, -75.0795) ccw projected
  line L390 (-31.2778, -72.0795) -> (-31.2778, -75.0795) projected
  line L391 (-36.4739, -75.0795) -> (-31.2778, -72.0795) projected
  line L392 (-36.4739, -75.0795) -> (-44.6778, -75.0795) projected
  line L393 (-44.6778, -114.8795) -> (-44.6778, -75.0795) projected
  line L394 (-22.0739, -114.8795) -> (-44.6778, -114.8795) projected
  line L395 (-16.8778, -117.8795) -> (-22.0739, -114.8795) projected
  line L396 (-16.8778, -114.8795) -> (-16.8778, -117.8795) projected
  arc A60 (-14.8778, -114.8795) -> (-16.8778, -114.8795) centre (-15.8778, -114.8795) ccw projected
  line L397 (-14.8778, -117.8795) -> (-14.8778, -114.8795) projected
  line L398 (-9.6816, -114.8795) -> (-14.8778, -117.8795) projected
  line L399 (6.7261, -114.8795) -> (-9.6816, -114.8795) projected
  line L400 (11.9222, -117.8795) -> (6.7261, -114.8795) projected
  line L401 (11.9222, -114.8795) -> (11.9222, -117.8795) projected
  arc A61 (13.9222, -114.8795) -> (11.9222, -114.8795) centre (12.9222, -114.8795) ccw projected
  line L402 (13.9222, -117.8795) -> (13.9222, -114.8795) projected
  line L403 (19.1184, -114.8795) -> (13.9222, -117.8795) projected
  line L404 (35.5261, -114.8795) -> (19.1184, -114.8795) projected
  line L405 (40.7222, -117.8795) -> (35.5261, -114.8795) projected
  line L406 (40.7222, -114.8795) -> (40.7222, -117.8795) projected
  arc A62 (42.7222, -114.8795) -> (40.7222, -114.8795) centre (41.7222, -114.8795) ccw projected
  line L407 (42.7222, -117.8795) -> (42.7222, -114.8795) projected
  line L408 (47.9184, -114.8795) -> (42.7222, -117.8795) projected
  line L409 (64.3261, -114.8795) -> (47.9184, -114.8795) projected
  line L410 (69.5222, -117.8795) -> (64.3261, -114.8795) projected
  line L411 (69.5222, -114.8795) -> (69.5222, -117.8795) projected
  arc A63 (71.5222, -114.8795) -> (69.5222, -114.8795) centre (70.5222, -114.8795) ccw projected
  line L412 (71.5222, -117.8795) -> (71.5222, -114.8795) projected
  line L413 (76.7184, -114.8795) -> (71.5222, -117.8795) projected
  line L414 (93.1261, -114.8795) -> (76.7184, -114.8795) projected
  line L415 (98.3222, -117.8795) -> (93.1261, -114.8795) projected
  line L416 (98.3222, -114.8795) -> (98.3222, -117.8795) projected
  arc A64 (100.3222, -114.8795) -> (98.3222, -114.8795) centre (99.3222, -114.8795) ccw projected
  line L417 (100.3222, -117.8795) -> (100.3222, -114.8795) projected
  line L418 (105.5184, -114.8795) -> (100.3222, -117.8795) projected
  line L419 (121.9261, -114.8795) -> (105.5184, -114.8795) projected
  line L420 (127.1222, -117.8795) -> (121.9261, -114.8795) projected
  line L421 (127.1222, -114.8795) -> (127.1222, -117.8795) projected
  arc A65 (129.1222, -114.8795) -> (127.1222, -114.8795) centre (128.1222, -114.8795) ccw projected
  line L422 (129.1222, -117.8795) -> (129.1222, -114.8795) projected
  line L423 (134.3184, -114.8795) -> (129.1222, -117.8795) projected
  line L424 (150.7261, -114.8795) -> (134.3184, -114.8795) projected
  line L425 (155.9222, -117.8795) -> (150.7261, -114.8795) projected
  line L426 (155.9222, -114.8795) -> (155.9222, -117.8795) projected
  arc A66 (157.9222, -114.8795) -> (155.9222, -114.8795) centre (156.9222, -114.8795) ccw projected
  line L427 (157.9222, -117.8795) -> (157.9222, -114.8795) projected
  line L428 (163.1184, -114.8795) -> (157.9222, -117.8795) projected
  line L429 (179.5261, -114.8795) -> (163.1184, -114.8795) projected
  line L430 (184.7222, -117.8795) -> (179.5261, -114.8795) projected
  line L431 (184.7222, -114.8795) -> (184.7222, -117.8795) projected
  arc A67 (186.7222, -114.8795) -> (184.7222, -114.8795) centre (185.7222, -114.8795) ccw projected
  line L432 (186.7222, -117.8795) -> (186.7222, -114.8795) projected
  line L433 (191.9184, -114.8795) -> (186.7222, -117.8795) projected
  line L434 (208.3261, -114.8795) -> (191.9184, -114.8795) projected
  line L435 (213.5222, -117.8795) -> (208.3261, -114.8795) projected
  line L436 (213.5222, -114.8795) -> (213.5222, -117.8795) projected
  arc A68 (215.5222, -114.8795) -> (213.5222, -114.8795) centre (214.5222, -114.8795) ccw projected
  line L437 (215.5222, -117.8795) -> (215.5222, -114.8795) projected
  line L438 (220.7184, -114.8795) -> (215.5222, -117.8795) projected
  line L439 (237.1261, -114.8795) -> (220.7184, -114.8795) projected
  line L440 (242.3222, -117.8795) -> (237.1261, -114.8795) projected
  line L441 (242.3222, -114.8795) -> (242.3222, -117.8795) projected
  arc A69 (244.3222, -114.8795) -> (242.3222, -114.8795) centre (243.3222, -114.8795) ccw projected
  line L442 (244.3222, -117.8795) -> (244.3222, -114.8795) projected
  line L443 (249.5184, -114.8795) -> (244.3222, -117.8795) projected
  line L444 (265.9261, -114.8795) -> (249.5184, -114.8795) projected
  line L445 (271.1222, -117.8795) -> (265.9261, -114.8795) projected
  line L446 (271.1222, -114.8795) -> (271.1222, -117.8795) projected
  arc A70 (273.1222, -114.8795) -> (271.1222, -114.8795) centre (272.1222, -114.8795) ccw projected
  line L447 (273.1222, -117.8795) -> (273.1222, -114.8795) projected
  line L448 (278.3184, -114.8795) -> (273.1222, -117.8795) projected
  line L449 (294.7261, -114.8795) -> (278.3184, -114.8795) projected
  line L450 (299.9222, -117.8795) -> (294.7261, -114.8795) projected
  line L451 (299.9222, -114.8795) -> (299.9222, -117.8795) projected
  arc A71 (301.9222, -114.8795) -> (299.9222, -114.8795) centre (300.9222, -114.8795) ccw projected
  line L452 (301.9222, -117.8795) -> (301.9222, -114.8795) projected
  line L453 (307.1184, -114.8795) -> (301.9222, -117.8795) projected
  line L454 (323.5261, -114.8795) -> (307.1184, -114.8795) projected
  line L455 (328.7222, -117.8795) -> (323.5261, -114.8795) projected
  line L456 (328.7222, -114.8795) -> (328.7222, -117.8795) projected
  arc A72 (330.7222, -114.8795) -> (328.7222, -114.8795) centre (329.7222, -114.8795) ccw projected
  line L457 (330.7222, -117.8795) -> (330.7222, -114.8795) projected
  line L458 (335.9184, -114.8795) -> (330.7222, -117.8795) projected
  line L459 (352.3261, -114.8795) -> (335.9184, -114.8795) projected
  line L460 (357.5222, -117.8795) -> (352.3261, -114.8795) projected
  line L461 (357.5222, -114.8795) -> (357.5222, -117.8795) projected
  arc A73 (359.5222, -114.8795) -> (357.5222, -114.8795) centre (358.5222, -114.8795) ccw projected
  line L462 (359.5222, -117.8795) -> (359.5222, -114.8795) projected
  line L463 (364.7184, -114.8795) -> (359.5222, -117.8795) projected
  line L464 (381.1261, -114.8795) -> (364.7184, -114.8795) projected
  line L465 (386.3222, -117.8795) -> (381.1261, -114.8795) projected
  line L466 (386.3222, -114.8795) -> (386.3222, -117.8795) projected
  arc A74 (388.3222, -114.8795) -> (386.3222, -114.8795) centre (387.3222, -114.8795) ccw projected
  line L467 (388.3222, -117.8795) -> (388.3222, -114.8795) projected
  line L468 (393.5184, -114.8795) -> (388.3222, -117.8795) projected
  line L469 (409.9261, -114.8795) -> (393.5184, -114.8795) projected
  line L470 (415.1222, -117.8795) -> (409.9261, -114.8795) projected
  line L471 (415.1222, -114.8795) -> (415.1222, -117.8795) projected
  arc A75 (417.1222, -114.8795) -> (415.1222, -114.8795) centre (416.1222, -114.8795) ccw projected
  line L472 (417.1222, -117.8795) -> (417.1222, -114.8795) projected
  line L473 (422.3184, -114.8795) -> (417.1222, -117.8795) projected
  line L474 (438.7261, -114.8795) -> (422.3184, -114.8795) projected
  line L475 (443.9222, -117.8795) -> (438.7261, -114.8795) projected
  line L476 (443.9222, -114.8795) -> (443.9222, -117.8795) projected
  arc A76 (445.9222, -114.8795) -> (443.9222, -114.8795) centre (444.9222, -114.8795) ccw projected
  line L477 (445.9222, -117.8795) -> (445.9222, -114.8795) projected
  line L478 (451.1184, -114.8795) -> (445.9222, -117.8795) projected
  line L479 (467.5261, -114.8795) -> (451.1184, -114.8795) projected
  line L480 (472.7222, -117.8795) -> (467.5261, -114.8795) projected
  line L481 (472.7222, -114.8795) -> (472.7222, -117.8795) projected
  arc A77 (474.7222, -114.8795) -> (472.7222, -114.8795) centre (473.7222, -114.8795) ccw projected
  line L482 (474.7222, -117.8795) -> (474.7222, -114.8795) projected
  line L483 (479.9184, -114.8795) -> (474.7222, -117.8795) projected
  line L484 (496.3261, -114.8795) -> (479.9184, -114.8795) projected
  line L485 (501.5222, -117.8795) -> (496.3261, -114.8795) projected
  line L486 (501.5222, -114.8795) -> (501.5222, -117.8795) projected
  arc A78 (503.5222, -114.8795) -> (501.5222, -114.8795) centre (502.5222, -114.8795) ccw projected
  line L487 (503.5222, -117.8795) -> (503.5222, -114.8795) projected
  line L488 (508.7184, -114.8795) -> (503.5222, -117.8795) projected
  line L489 (525.1261, -114.8795) -> (508.7184, -114.8795) projected
  line L490 (530.3222, -117.8795) -> (525.1261, -114.8795) projected
  line L491 (530.3222, -114.8795) -> (530.3222, -117.8795) projected
  arc A79 (532.3222, -114.8795) -> (530.3222, -114.8795) centre (531.3222, -114.8795) ccw projected
  line L492 (-15.2778, -103.9795) -> (-9.2778, -103.9795) projected
  line L493 (-9.2778, -103.9795) -> (-9.2778, -109.9795) projected
  line L494 (-9.2778, -109.9795) -> (-15.2778, -109.9795) projected
  line L495 (-15.2778, -109.9795) -> (-15.2778, -103.9795) projected
  line L496 (-15.2778, -85.9795) -> (-15.2778, -79.9795) projected
  line L497 (-15.2778, -79.9795) -> (-9.2778, -79.9795) projected
  line L498 (-9.2778, -79.9795) -> (-9.2778, -85.9795) projected
  line L499 (-9.2778, -85.9795) -> (-15.2778, -85.9795) projected
  line L500 (42.3222, -103.9795) -> (48.3222, -103.9795) projected
  line L501 (48.3222, -103.9795) -> (48.3222, -109.9795) projected
  line L502 (48.3222, -109.9795) -> (42.3222, -109.9795) projected
  line L503 (42.3222, -109.9795) -> (42.3222, -103.9795) projected
  line L504 (42.3222, -85.9795) -> (42.3222, -79.9795) projected
  line L505 (42.3222, -79.9795) -> (48.3222, -79.9795) projected
  line L506 (48.3222, -79.9795) -> (48.3222, -85.9795) projected
  line L507 (48.3222, -85.9795) -> (42.3222, -85.9795) projected
  line L508 (99.9222, -103.9795) -> (105.9222, -103.9795) projected
  line L509 (105.9222, -103.9795) -> (105.9222, -109.9795) projected
  line L510 (105.9222, -109.9795) -> (99.9222, -109.9795) projected
  line L511 (99.9222, -109.9795) -> (99.9222, -103.9795) projected
  line L512 (99.9222, -85.9795) -> (99.9222, -79.9795) projected
  line L513 (99.9222, -79.9795) -> (105.9222, -79.9795) projected
  line L514 (105.9222, -79.9795) -> (105.9222, -85.9795) projected
  line L515 (105.9222, -85.9795) -> (99.9222, -85.9795) projected
  line L516 (157.5222, -103.9795) -> (163.5222, -103.9795) projected
  line L517 (163.5222, -103.9795) -> (163.5222, -109.9795) projected
  line L518 (163.5222, -109.9795) -> (157.5222, -109.9795) projected
  line L519 (157.5222, -109.9795) -> (157.5222, -103.9795) projected
  line L520 (157.5222, -85.9795) -> (157.5222, -79.9795) projected
  line L521 (157.5222, -79.9795) -> (163.5222, -79.9795) projected
  line L522 (163.5222, -79.9795) -> (163.5222, -85.9795) projected
  line L523 (163.5222, -85.9795) -> (157.5222, -85.9795) projected
  line L524 (215.1222, -103.9795) -> (221.1222, -103.9795) projected
  line L525 (221.1222, -103.9795) -> (221.1222, -109.9795) projected
  line L526 (221.1222, -109.9795) -> (215.1222, -109.9795) projected
  line L527 (215.1222, -109.9795) -> (215.1222, -103.9795) projected
  line L528 (215.1222, -85.9795) -> (215.1222, -79.9795) projected
  line L529 (215.1222, -79.9795) -> (221.1222, -79.9795) projected
  line L530 (221.1222, -79.9795) -> (221.1222, -85.9795) projected
  line L531 (221.1222, -85.9795) -> (215.1222, -85.9795) projected
  line L532 (272.7222, -103.9795) -> (278.7222, -103.9795) projected
  line L533 (278.7222, -103.9795) -> (278.7222, -109.9795) projected
  line L534 (278.7222, -109.9795) -> (272.7222, -109.9795) projected
  line L535 (272.7222, -109.9795) -> (272.7222, -103.9795) projected
  line L536 (272.7222, -85.9795) -> (272.7222, -79.9795) projected
  line L537 (272.7222, -79.9795) -> (278.7222, -79.9795) projected
  line L538 (278.7222, -79.9795) -> (278.7222, -85.9795) projected
  line L539 (278.7222, -85.9795) -> (272.7222, -85.9795) projected
  line L540 (330.3222, -103.9795) -> (336.3222, -103.9795) projected
  line L541 (336.3222, -103.9795) -> (336.3222, -109.9795) projected
  line L542 (336.3222, -109.9795) -> (330.3222, -109.9795) projected
  line L543 (330.3222, -109.9795) -> (330.3222, -103.9795) projected
  line L544 (330.3222, -85.9795) -> (330.3222, -79.9795) projected
  line L545 (330.3222, -79.9795) -> (336.3222, -79.9795) projected
  line L546 (336.3222, -79.9795) -> (336.3222, -85.9795) projected
  line L547 (336.3222, -85.9795) -> (330.3222, -85.9795) projected
  line L548 (387.9222, -103.9795) -> (393.9222, -103.9795) projected
  line L549 (393.9222, -103.9795) -> (393.9222, -109.9795) projected
  line L550 (393.9222, -109.9795) -> (387.9222, -109.9795) projected
  line L551 (387.9222, -109.9795) -> (387.9222, -103.9795) projected
  line L552 (387.9222, -85.9795) -> (387.9222, -79.9795) projected
  line L553 (387.9222, -79.9795) -> (393.9222, -79.9795) projected
  line L554 (393.9222, -79.9795) -> (393.9222, -85.9795) projected
  line L555 (393.9222, -85.9795) -> (387.9222, -85.9795) projected
  line L556 (445.5222, -103.9795) -> (451.5222, -103.9795) projected
  line L557 (451.5222, -103.9795) -> (451.5222, -109.9795) projected
  line L558 (451.5222, -109.9795) -> (445.5222, -109.9795) projected
  line L559 (445.5222, -109.9795) -> (445.5222, -103.9795) projected
  line L560 (445.5222, -85.9795) -> (445.5222, -79.9795) projected
  line L561 (445.5222, -79.9795) -> (451.5222, -79.9795) projected
  line L562 (451.5222, -79.9795) -> (451.5222, -85.9795) projected
  line L563 (451.5222, -85.9795) -> (445.5222, -85.9795) projected
  line L564 (503.1222, -103.9795) -> (509.1222, -103.9795) projected
  line L565 (509.1222, -103.9795) -> (509.1222, -109.9795) projected
  line L566 (509.1222, -109.9795) -> (503.1222, -109.9795) projected
  line L567 (503.1222, -109.9795) -> (503.1222, -103.9795) projected
  line L568 (503.1222, -85.9795) -> (503.1222, -79.9795) projected
  line L569 (503.1222, -79.9795) -> (509.1222, -79.9795) projected
  line L570 (509.1222, -79.9795) -> (509.1222, -85.9795) projected
  line L571 (509.1222, -85.9795) -> (503.1222, -85.9795) projected
  point P0 (0, 0)
extrude "Extrusion1" add sketch "Sketch1" along normal blind 6 and the other way blind 6 contours L206 L207 L208 L209 | L496 L497 L498 L499
sketch "Sketch2" plane through (-15.2778, -79.9795, 6) normal (0, 1, 0) x (1, 0, 0)
  line L0 (6, 0) -> (0, 0) projected
  line L1 (6, 12) -> (6, 0) projected
  line L2 (0, 0) -> (6, 0)
  line L3 (6, 0) -> (6, 6)
  line L4 (6, 6) -> (0, 6)
  line L5 (0, 6) -> (0, 0)
  point P0 (15.2778, 6)
  dimension "d4" = 6
extrude "Extrusion2" add sketch "Sketch2" along normal up to next
properties part number "ReinforcerLarge"
